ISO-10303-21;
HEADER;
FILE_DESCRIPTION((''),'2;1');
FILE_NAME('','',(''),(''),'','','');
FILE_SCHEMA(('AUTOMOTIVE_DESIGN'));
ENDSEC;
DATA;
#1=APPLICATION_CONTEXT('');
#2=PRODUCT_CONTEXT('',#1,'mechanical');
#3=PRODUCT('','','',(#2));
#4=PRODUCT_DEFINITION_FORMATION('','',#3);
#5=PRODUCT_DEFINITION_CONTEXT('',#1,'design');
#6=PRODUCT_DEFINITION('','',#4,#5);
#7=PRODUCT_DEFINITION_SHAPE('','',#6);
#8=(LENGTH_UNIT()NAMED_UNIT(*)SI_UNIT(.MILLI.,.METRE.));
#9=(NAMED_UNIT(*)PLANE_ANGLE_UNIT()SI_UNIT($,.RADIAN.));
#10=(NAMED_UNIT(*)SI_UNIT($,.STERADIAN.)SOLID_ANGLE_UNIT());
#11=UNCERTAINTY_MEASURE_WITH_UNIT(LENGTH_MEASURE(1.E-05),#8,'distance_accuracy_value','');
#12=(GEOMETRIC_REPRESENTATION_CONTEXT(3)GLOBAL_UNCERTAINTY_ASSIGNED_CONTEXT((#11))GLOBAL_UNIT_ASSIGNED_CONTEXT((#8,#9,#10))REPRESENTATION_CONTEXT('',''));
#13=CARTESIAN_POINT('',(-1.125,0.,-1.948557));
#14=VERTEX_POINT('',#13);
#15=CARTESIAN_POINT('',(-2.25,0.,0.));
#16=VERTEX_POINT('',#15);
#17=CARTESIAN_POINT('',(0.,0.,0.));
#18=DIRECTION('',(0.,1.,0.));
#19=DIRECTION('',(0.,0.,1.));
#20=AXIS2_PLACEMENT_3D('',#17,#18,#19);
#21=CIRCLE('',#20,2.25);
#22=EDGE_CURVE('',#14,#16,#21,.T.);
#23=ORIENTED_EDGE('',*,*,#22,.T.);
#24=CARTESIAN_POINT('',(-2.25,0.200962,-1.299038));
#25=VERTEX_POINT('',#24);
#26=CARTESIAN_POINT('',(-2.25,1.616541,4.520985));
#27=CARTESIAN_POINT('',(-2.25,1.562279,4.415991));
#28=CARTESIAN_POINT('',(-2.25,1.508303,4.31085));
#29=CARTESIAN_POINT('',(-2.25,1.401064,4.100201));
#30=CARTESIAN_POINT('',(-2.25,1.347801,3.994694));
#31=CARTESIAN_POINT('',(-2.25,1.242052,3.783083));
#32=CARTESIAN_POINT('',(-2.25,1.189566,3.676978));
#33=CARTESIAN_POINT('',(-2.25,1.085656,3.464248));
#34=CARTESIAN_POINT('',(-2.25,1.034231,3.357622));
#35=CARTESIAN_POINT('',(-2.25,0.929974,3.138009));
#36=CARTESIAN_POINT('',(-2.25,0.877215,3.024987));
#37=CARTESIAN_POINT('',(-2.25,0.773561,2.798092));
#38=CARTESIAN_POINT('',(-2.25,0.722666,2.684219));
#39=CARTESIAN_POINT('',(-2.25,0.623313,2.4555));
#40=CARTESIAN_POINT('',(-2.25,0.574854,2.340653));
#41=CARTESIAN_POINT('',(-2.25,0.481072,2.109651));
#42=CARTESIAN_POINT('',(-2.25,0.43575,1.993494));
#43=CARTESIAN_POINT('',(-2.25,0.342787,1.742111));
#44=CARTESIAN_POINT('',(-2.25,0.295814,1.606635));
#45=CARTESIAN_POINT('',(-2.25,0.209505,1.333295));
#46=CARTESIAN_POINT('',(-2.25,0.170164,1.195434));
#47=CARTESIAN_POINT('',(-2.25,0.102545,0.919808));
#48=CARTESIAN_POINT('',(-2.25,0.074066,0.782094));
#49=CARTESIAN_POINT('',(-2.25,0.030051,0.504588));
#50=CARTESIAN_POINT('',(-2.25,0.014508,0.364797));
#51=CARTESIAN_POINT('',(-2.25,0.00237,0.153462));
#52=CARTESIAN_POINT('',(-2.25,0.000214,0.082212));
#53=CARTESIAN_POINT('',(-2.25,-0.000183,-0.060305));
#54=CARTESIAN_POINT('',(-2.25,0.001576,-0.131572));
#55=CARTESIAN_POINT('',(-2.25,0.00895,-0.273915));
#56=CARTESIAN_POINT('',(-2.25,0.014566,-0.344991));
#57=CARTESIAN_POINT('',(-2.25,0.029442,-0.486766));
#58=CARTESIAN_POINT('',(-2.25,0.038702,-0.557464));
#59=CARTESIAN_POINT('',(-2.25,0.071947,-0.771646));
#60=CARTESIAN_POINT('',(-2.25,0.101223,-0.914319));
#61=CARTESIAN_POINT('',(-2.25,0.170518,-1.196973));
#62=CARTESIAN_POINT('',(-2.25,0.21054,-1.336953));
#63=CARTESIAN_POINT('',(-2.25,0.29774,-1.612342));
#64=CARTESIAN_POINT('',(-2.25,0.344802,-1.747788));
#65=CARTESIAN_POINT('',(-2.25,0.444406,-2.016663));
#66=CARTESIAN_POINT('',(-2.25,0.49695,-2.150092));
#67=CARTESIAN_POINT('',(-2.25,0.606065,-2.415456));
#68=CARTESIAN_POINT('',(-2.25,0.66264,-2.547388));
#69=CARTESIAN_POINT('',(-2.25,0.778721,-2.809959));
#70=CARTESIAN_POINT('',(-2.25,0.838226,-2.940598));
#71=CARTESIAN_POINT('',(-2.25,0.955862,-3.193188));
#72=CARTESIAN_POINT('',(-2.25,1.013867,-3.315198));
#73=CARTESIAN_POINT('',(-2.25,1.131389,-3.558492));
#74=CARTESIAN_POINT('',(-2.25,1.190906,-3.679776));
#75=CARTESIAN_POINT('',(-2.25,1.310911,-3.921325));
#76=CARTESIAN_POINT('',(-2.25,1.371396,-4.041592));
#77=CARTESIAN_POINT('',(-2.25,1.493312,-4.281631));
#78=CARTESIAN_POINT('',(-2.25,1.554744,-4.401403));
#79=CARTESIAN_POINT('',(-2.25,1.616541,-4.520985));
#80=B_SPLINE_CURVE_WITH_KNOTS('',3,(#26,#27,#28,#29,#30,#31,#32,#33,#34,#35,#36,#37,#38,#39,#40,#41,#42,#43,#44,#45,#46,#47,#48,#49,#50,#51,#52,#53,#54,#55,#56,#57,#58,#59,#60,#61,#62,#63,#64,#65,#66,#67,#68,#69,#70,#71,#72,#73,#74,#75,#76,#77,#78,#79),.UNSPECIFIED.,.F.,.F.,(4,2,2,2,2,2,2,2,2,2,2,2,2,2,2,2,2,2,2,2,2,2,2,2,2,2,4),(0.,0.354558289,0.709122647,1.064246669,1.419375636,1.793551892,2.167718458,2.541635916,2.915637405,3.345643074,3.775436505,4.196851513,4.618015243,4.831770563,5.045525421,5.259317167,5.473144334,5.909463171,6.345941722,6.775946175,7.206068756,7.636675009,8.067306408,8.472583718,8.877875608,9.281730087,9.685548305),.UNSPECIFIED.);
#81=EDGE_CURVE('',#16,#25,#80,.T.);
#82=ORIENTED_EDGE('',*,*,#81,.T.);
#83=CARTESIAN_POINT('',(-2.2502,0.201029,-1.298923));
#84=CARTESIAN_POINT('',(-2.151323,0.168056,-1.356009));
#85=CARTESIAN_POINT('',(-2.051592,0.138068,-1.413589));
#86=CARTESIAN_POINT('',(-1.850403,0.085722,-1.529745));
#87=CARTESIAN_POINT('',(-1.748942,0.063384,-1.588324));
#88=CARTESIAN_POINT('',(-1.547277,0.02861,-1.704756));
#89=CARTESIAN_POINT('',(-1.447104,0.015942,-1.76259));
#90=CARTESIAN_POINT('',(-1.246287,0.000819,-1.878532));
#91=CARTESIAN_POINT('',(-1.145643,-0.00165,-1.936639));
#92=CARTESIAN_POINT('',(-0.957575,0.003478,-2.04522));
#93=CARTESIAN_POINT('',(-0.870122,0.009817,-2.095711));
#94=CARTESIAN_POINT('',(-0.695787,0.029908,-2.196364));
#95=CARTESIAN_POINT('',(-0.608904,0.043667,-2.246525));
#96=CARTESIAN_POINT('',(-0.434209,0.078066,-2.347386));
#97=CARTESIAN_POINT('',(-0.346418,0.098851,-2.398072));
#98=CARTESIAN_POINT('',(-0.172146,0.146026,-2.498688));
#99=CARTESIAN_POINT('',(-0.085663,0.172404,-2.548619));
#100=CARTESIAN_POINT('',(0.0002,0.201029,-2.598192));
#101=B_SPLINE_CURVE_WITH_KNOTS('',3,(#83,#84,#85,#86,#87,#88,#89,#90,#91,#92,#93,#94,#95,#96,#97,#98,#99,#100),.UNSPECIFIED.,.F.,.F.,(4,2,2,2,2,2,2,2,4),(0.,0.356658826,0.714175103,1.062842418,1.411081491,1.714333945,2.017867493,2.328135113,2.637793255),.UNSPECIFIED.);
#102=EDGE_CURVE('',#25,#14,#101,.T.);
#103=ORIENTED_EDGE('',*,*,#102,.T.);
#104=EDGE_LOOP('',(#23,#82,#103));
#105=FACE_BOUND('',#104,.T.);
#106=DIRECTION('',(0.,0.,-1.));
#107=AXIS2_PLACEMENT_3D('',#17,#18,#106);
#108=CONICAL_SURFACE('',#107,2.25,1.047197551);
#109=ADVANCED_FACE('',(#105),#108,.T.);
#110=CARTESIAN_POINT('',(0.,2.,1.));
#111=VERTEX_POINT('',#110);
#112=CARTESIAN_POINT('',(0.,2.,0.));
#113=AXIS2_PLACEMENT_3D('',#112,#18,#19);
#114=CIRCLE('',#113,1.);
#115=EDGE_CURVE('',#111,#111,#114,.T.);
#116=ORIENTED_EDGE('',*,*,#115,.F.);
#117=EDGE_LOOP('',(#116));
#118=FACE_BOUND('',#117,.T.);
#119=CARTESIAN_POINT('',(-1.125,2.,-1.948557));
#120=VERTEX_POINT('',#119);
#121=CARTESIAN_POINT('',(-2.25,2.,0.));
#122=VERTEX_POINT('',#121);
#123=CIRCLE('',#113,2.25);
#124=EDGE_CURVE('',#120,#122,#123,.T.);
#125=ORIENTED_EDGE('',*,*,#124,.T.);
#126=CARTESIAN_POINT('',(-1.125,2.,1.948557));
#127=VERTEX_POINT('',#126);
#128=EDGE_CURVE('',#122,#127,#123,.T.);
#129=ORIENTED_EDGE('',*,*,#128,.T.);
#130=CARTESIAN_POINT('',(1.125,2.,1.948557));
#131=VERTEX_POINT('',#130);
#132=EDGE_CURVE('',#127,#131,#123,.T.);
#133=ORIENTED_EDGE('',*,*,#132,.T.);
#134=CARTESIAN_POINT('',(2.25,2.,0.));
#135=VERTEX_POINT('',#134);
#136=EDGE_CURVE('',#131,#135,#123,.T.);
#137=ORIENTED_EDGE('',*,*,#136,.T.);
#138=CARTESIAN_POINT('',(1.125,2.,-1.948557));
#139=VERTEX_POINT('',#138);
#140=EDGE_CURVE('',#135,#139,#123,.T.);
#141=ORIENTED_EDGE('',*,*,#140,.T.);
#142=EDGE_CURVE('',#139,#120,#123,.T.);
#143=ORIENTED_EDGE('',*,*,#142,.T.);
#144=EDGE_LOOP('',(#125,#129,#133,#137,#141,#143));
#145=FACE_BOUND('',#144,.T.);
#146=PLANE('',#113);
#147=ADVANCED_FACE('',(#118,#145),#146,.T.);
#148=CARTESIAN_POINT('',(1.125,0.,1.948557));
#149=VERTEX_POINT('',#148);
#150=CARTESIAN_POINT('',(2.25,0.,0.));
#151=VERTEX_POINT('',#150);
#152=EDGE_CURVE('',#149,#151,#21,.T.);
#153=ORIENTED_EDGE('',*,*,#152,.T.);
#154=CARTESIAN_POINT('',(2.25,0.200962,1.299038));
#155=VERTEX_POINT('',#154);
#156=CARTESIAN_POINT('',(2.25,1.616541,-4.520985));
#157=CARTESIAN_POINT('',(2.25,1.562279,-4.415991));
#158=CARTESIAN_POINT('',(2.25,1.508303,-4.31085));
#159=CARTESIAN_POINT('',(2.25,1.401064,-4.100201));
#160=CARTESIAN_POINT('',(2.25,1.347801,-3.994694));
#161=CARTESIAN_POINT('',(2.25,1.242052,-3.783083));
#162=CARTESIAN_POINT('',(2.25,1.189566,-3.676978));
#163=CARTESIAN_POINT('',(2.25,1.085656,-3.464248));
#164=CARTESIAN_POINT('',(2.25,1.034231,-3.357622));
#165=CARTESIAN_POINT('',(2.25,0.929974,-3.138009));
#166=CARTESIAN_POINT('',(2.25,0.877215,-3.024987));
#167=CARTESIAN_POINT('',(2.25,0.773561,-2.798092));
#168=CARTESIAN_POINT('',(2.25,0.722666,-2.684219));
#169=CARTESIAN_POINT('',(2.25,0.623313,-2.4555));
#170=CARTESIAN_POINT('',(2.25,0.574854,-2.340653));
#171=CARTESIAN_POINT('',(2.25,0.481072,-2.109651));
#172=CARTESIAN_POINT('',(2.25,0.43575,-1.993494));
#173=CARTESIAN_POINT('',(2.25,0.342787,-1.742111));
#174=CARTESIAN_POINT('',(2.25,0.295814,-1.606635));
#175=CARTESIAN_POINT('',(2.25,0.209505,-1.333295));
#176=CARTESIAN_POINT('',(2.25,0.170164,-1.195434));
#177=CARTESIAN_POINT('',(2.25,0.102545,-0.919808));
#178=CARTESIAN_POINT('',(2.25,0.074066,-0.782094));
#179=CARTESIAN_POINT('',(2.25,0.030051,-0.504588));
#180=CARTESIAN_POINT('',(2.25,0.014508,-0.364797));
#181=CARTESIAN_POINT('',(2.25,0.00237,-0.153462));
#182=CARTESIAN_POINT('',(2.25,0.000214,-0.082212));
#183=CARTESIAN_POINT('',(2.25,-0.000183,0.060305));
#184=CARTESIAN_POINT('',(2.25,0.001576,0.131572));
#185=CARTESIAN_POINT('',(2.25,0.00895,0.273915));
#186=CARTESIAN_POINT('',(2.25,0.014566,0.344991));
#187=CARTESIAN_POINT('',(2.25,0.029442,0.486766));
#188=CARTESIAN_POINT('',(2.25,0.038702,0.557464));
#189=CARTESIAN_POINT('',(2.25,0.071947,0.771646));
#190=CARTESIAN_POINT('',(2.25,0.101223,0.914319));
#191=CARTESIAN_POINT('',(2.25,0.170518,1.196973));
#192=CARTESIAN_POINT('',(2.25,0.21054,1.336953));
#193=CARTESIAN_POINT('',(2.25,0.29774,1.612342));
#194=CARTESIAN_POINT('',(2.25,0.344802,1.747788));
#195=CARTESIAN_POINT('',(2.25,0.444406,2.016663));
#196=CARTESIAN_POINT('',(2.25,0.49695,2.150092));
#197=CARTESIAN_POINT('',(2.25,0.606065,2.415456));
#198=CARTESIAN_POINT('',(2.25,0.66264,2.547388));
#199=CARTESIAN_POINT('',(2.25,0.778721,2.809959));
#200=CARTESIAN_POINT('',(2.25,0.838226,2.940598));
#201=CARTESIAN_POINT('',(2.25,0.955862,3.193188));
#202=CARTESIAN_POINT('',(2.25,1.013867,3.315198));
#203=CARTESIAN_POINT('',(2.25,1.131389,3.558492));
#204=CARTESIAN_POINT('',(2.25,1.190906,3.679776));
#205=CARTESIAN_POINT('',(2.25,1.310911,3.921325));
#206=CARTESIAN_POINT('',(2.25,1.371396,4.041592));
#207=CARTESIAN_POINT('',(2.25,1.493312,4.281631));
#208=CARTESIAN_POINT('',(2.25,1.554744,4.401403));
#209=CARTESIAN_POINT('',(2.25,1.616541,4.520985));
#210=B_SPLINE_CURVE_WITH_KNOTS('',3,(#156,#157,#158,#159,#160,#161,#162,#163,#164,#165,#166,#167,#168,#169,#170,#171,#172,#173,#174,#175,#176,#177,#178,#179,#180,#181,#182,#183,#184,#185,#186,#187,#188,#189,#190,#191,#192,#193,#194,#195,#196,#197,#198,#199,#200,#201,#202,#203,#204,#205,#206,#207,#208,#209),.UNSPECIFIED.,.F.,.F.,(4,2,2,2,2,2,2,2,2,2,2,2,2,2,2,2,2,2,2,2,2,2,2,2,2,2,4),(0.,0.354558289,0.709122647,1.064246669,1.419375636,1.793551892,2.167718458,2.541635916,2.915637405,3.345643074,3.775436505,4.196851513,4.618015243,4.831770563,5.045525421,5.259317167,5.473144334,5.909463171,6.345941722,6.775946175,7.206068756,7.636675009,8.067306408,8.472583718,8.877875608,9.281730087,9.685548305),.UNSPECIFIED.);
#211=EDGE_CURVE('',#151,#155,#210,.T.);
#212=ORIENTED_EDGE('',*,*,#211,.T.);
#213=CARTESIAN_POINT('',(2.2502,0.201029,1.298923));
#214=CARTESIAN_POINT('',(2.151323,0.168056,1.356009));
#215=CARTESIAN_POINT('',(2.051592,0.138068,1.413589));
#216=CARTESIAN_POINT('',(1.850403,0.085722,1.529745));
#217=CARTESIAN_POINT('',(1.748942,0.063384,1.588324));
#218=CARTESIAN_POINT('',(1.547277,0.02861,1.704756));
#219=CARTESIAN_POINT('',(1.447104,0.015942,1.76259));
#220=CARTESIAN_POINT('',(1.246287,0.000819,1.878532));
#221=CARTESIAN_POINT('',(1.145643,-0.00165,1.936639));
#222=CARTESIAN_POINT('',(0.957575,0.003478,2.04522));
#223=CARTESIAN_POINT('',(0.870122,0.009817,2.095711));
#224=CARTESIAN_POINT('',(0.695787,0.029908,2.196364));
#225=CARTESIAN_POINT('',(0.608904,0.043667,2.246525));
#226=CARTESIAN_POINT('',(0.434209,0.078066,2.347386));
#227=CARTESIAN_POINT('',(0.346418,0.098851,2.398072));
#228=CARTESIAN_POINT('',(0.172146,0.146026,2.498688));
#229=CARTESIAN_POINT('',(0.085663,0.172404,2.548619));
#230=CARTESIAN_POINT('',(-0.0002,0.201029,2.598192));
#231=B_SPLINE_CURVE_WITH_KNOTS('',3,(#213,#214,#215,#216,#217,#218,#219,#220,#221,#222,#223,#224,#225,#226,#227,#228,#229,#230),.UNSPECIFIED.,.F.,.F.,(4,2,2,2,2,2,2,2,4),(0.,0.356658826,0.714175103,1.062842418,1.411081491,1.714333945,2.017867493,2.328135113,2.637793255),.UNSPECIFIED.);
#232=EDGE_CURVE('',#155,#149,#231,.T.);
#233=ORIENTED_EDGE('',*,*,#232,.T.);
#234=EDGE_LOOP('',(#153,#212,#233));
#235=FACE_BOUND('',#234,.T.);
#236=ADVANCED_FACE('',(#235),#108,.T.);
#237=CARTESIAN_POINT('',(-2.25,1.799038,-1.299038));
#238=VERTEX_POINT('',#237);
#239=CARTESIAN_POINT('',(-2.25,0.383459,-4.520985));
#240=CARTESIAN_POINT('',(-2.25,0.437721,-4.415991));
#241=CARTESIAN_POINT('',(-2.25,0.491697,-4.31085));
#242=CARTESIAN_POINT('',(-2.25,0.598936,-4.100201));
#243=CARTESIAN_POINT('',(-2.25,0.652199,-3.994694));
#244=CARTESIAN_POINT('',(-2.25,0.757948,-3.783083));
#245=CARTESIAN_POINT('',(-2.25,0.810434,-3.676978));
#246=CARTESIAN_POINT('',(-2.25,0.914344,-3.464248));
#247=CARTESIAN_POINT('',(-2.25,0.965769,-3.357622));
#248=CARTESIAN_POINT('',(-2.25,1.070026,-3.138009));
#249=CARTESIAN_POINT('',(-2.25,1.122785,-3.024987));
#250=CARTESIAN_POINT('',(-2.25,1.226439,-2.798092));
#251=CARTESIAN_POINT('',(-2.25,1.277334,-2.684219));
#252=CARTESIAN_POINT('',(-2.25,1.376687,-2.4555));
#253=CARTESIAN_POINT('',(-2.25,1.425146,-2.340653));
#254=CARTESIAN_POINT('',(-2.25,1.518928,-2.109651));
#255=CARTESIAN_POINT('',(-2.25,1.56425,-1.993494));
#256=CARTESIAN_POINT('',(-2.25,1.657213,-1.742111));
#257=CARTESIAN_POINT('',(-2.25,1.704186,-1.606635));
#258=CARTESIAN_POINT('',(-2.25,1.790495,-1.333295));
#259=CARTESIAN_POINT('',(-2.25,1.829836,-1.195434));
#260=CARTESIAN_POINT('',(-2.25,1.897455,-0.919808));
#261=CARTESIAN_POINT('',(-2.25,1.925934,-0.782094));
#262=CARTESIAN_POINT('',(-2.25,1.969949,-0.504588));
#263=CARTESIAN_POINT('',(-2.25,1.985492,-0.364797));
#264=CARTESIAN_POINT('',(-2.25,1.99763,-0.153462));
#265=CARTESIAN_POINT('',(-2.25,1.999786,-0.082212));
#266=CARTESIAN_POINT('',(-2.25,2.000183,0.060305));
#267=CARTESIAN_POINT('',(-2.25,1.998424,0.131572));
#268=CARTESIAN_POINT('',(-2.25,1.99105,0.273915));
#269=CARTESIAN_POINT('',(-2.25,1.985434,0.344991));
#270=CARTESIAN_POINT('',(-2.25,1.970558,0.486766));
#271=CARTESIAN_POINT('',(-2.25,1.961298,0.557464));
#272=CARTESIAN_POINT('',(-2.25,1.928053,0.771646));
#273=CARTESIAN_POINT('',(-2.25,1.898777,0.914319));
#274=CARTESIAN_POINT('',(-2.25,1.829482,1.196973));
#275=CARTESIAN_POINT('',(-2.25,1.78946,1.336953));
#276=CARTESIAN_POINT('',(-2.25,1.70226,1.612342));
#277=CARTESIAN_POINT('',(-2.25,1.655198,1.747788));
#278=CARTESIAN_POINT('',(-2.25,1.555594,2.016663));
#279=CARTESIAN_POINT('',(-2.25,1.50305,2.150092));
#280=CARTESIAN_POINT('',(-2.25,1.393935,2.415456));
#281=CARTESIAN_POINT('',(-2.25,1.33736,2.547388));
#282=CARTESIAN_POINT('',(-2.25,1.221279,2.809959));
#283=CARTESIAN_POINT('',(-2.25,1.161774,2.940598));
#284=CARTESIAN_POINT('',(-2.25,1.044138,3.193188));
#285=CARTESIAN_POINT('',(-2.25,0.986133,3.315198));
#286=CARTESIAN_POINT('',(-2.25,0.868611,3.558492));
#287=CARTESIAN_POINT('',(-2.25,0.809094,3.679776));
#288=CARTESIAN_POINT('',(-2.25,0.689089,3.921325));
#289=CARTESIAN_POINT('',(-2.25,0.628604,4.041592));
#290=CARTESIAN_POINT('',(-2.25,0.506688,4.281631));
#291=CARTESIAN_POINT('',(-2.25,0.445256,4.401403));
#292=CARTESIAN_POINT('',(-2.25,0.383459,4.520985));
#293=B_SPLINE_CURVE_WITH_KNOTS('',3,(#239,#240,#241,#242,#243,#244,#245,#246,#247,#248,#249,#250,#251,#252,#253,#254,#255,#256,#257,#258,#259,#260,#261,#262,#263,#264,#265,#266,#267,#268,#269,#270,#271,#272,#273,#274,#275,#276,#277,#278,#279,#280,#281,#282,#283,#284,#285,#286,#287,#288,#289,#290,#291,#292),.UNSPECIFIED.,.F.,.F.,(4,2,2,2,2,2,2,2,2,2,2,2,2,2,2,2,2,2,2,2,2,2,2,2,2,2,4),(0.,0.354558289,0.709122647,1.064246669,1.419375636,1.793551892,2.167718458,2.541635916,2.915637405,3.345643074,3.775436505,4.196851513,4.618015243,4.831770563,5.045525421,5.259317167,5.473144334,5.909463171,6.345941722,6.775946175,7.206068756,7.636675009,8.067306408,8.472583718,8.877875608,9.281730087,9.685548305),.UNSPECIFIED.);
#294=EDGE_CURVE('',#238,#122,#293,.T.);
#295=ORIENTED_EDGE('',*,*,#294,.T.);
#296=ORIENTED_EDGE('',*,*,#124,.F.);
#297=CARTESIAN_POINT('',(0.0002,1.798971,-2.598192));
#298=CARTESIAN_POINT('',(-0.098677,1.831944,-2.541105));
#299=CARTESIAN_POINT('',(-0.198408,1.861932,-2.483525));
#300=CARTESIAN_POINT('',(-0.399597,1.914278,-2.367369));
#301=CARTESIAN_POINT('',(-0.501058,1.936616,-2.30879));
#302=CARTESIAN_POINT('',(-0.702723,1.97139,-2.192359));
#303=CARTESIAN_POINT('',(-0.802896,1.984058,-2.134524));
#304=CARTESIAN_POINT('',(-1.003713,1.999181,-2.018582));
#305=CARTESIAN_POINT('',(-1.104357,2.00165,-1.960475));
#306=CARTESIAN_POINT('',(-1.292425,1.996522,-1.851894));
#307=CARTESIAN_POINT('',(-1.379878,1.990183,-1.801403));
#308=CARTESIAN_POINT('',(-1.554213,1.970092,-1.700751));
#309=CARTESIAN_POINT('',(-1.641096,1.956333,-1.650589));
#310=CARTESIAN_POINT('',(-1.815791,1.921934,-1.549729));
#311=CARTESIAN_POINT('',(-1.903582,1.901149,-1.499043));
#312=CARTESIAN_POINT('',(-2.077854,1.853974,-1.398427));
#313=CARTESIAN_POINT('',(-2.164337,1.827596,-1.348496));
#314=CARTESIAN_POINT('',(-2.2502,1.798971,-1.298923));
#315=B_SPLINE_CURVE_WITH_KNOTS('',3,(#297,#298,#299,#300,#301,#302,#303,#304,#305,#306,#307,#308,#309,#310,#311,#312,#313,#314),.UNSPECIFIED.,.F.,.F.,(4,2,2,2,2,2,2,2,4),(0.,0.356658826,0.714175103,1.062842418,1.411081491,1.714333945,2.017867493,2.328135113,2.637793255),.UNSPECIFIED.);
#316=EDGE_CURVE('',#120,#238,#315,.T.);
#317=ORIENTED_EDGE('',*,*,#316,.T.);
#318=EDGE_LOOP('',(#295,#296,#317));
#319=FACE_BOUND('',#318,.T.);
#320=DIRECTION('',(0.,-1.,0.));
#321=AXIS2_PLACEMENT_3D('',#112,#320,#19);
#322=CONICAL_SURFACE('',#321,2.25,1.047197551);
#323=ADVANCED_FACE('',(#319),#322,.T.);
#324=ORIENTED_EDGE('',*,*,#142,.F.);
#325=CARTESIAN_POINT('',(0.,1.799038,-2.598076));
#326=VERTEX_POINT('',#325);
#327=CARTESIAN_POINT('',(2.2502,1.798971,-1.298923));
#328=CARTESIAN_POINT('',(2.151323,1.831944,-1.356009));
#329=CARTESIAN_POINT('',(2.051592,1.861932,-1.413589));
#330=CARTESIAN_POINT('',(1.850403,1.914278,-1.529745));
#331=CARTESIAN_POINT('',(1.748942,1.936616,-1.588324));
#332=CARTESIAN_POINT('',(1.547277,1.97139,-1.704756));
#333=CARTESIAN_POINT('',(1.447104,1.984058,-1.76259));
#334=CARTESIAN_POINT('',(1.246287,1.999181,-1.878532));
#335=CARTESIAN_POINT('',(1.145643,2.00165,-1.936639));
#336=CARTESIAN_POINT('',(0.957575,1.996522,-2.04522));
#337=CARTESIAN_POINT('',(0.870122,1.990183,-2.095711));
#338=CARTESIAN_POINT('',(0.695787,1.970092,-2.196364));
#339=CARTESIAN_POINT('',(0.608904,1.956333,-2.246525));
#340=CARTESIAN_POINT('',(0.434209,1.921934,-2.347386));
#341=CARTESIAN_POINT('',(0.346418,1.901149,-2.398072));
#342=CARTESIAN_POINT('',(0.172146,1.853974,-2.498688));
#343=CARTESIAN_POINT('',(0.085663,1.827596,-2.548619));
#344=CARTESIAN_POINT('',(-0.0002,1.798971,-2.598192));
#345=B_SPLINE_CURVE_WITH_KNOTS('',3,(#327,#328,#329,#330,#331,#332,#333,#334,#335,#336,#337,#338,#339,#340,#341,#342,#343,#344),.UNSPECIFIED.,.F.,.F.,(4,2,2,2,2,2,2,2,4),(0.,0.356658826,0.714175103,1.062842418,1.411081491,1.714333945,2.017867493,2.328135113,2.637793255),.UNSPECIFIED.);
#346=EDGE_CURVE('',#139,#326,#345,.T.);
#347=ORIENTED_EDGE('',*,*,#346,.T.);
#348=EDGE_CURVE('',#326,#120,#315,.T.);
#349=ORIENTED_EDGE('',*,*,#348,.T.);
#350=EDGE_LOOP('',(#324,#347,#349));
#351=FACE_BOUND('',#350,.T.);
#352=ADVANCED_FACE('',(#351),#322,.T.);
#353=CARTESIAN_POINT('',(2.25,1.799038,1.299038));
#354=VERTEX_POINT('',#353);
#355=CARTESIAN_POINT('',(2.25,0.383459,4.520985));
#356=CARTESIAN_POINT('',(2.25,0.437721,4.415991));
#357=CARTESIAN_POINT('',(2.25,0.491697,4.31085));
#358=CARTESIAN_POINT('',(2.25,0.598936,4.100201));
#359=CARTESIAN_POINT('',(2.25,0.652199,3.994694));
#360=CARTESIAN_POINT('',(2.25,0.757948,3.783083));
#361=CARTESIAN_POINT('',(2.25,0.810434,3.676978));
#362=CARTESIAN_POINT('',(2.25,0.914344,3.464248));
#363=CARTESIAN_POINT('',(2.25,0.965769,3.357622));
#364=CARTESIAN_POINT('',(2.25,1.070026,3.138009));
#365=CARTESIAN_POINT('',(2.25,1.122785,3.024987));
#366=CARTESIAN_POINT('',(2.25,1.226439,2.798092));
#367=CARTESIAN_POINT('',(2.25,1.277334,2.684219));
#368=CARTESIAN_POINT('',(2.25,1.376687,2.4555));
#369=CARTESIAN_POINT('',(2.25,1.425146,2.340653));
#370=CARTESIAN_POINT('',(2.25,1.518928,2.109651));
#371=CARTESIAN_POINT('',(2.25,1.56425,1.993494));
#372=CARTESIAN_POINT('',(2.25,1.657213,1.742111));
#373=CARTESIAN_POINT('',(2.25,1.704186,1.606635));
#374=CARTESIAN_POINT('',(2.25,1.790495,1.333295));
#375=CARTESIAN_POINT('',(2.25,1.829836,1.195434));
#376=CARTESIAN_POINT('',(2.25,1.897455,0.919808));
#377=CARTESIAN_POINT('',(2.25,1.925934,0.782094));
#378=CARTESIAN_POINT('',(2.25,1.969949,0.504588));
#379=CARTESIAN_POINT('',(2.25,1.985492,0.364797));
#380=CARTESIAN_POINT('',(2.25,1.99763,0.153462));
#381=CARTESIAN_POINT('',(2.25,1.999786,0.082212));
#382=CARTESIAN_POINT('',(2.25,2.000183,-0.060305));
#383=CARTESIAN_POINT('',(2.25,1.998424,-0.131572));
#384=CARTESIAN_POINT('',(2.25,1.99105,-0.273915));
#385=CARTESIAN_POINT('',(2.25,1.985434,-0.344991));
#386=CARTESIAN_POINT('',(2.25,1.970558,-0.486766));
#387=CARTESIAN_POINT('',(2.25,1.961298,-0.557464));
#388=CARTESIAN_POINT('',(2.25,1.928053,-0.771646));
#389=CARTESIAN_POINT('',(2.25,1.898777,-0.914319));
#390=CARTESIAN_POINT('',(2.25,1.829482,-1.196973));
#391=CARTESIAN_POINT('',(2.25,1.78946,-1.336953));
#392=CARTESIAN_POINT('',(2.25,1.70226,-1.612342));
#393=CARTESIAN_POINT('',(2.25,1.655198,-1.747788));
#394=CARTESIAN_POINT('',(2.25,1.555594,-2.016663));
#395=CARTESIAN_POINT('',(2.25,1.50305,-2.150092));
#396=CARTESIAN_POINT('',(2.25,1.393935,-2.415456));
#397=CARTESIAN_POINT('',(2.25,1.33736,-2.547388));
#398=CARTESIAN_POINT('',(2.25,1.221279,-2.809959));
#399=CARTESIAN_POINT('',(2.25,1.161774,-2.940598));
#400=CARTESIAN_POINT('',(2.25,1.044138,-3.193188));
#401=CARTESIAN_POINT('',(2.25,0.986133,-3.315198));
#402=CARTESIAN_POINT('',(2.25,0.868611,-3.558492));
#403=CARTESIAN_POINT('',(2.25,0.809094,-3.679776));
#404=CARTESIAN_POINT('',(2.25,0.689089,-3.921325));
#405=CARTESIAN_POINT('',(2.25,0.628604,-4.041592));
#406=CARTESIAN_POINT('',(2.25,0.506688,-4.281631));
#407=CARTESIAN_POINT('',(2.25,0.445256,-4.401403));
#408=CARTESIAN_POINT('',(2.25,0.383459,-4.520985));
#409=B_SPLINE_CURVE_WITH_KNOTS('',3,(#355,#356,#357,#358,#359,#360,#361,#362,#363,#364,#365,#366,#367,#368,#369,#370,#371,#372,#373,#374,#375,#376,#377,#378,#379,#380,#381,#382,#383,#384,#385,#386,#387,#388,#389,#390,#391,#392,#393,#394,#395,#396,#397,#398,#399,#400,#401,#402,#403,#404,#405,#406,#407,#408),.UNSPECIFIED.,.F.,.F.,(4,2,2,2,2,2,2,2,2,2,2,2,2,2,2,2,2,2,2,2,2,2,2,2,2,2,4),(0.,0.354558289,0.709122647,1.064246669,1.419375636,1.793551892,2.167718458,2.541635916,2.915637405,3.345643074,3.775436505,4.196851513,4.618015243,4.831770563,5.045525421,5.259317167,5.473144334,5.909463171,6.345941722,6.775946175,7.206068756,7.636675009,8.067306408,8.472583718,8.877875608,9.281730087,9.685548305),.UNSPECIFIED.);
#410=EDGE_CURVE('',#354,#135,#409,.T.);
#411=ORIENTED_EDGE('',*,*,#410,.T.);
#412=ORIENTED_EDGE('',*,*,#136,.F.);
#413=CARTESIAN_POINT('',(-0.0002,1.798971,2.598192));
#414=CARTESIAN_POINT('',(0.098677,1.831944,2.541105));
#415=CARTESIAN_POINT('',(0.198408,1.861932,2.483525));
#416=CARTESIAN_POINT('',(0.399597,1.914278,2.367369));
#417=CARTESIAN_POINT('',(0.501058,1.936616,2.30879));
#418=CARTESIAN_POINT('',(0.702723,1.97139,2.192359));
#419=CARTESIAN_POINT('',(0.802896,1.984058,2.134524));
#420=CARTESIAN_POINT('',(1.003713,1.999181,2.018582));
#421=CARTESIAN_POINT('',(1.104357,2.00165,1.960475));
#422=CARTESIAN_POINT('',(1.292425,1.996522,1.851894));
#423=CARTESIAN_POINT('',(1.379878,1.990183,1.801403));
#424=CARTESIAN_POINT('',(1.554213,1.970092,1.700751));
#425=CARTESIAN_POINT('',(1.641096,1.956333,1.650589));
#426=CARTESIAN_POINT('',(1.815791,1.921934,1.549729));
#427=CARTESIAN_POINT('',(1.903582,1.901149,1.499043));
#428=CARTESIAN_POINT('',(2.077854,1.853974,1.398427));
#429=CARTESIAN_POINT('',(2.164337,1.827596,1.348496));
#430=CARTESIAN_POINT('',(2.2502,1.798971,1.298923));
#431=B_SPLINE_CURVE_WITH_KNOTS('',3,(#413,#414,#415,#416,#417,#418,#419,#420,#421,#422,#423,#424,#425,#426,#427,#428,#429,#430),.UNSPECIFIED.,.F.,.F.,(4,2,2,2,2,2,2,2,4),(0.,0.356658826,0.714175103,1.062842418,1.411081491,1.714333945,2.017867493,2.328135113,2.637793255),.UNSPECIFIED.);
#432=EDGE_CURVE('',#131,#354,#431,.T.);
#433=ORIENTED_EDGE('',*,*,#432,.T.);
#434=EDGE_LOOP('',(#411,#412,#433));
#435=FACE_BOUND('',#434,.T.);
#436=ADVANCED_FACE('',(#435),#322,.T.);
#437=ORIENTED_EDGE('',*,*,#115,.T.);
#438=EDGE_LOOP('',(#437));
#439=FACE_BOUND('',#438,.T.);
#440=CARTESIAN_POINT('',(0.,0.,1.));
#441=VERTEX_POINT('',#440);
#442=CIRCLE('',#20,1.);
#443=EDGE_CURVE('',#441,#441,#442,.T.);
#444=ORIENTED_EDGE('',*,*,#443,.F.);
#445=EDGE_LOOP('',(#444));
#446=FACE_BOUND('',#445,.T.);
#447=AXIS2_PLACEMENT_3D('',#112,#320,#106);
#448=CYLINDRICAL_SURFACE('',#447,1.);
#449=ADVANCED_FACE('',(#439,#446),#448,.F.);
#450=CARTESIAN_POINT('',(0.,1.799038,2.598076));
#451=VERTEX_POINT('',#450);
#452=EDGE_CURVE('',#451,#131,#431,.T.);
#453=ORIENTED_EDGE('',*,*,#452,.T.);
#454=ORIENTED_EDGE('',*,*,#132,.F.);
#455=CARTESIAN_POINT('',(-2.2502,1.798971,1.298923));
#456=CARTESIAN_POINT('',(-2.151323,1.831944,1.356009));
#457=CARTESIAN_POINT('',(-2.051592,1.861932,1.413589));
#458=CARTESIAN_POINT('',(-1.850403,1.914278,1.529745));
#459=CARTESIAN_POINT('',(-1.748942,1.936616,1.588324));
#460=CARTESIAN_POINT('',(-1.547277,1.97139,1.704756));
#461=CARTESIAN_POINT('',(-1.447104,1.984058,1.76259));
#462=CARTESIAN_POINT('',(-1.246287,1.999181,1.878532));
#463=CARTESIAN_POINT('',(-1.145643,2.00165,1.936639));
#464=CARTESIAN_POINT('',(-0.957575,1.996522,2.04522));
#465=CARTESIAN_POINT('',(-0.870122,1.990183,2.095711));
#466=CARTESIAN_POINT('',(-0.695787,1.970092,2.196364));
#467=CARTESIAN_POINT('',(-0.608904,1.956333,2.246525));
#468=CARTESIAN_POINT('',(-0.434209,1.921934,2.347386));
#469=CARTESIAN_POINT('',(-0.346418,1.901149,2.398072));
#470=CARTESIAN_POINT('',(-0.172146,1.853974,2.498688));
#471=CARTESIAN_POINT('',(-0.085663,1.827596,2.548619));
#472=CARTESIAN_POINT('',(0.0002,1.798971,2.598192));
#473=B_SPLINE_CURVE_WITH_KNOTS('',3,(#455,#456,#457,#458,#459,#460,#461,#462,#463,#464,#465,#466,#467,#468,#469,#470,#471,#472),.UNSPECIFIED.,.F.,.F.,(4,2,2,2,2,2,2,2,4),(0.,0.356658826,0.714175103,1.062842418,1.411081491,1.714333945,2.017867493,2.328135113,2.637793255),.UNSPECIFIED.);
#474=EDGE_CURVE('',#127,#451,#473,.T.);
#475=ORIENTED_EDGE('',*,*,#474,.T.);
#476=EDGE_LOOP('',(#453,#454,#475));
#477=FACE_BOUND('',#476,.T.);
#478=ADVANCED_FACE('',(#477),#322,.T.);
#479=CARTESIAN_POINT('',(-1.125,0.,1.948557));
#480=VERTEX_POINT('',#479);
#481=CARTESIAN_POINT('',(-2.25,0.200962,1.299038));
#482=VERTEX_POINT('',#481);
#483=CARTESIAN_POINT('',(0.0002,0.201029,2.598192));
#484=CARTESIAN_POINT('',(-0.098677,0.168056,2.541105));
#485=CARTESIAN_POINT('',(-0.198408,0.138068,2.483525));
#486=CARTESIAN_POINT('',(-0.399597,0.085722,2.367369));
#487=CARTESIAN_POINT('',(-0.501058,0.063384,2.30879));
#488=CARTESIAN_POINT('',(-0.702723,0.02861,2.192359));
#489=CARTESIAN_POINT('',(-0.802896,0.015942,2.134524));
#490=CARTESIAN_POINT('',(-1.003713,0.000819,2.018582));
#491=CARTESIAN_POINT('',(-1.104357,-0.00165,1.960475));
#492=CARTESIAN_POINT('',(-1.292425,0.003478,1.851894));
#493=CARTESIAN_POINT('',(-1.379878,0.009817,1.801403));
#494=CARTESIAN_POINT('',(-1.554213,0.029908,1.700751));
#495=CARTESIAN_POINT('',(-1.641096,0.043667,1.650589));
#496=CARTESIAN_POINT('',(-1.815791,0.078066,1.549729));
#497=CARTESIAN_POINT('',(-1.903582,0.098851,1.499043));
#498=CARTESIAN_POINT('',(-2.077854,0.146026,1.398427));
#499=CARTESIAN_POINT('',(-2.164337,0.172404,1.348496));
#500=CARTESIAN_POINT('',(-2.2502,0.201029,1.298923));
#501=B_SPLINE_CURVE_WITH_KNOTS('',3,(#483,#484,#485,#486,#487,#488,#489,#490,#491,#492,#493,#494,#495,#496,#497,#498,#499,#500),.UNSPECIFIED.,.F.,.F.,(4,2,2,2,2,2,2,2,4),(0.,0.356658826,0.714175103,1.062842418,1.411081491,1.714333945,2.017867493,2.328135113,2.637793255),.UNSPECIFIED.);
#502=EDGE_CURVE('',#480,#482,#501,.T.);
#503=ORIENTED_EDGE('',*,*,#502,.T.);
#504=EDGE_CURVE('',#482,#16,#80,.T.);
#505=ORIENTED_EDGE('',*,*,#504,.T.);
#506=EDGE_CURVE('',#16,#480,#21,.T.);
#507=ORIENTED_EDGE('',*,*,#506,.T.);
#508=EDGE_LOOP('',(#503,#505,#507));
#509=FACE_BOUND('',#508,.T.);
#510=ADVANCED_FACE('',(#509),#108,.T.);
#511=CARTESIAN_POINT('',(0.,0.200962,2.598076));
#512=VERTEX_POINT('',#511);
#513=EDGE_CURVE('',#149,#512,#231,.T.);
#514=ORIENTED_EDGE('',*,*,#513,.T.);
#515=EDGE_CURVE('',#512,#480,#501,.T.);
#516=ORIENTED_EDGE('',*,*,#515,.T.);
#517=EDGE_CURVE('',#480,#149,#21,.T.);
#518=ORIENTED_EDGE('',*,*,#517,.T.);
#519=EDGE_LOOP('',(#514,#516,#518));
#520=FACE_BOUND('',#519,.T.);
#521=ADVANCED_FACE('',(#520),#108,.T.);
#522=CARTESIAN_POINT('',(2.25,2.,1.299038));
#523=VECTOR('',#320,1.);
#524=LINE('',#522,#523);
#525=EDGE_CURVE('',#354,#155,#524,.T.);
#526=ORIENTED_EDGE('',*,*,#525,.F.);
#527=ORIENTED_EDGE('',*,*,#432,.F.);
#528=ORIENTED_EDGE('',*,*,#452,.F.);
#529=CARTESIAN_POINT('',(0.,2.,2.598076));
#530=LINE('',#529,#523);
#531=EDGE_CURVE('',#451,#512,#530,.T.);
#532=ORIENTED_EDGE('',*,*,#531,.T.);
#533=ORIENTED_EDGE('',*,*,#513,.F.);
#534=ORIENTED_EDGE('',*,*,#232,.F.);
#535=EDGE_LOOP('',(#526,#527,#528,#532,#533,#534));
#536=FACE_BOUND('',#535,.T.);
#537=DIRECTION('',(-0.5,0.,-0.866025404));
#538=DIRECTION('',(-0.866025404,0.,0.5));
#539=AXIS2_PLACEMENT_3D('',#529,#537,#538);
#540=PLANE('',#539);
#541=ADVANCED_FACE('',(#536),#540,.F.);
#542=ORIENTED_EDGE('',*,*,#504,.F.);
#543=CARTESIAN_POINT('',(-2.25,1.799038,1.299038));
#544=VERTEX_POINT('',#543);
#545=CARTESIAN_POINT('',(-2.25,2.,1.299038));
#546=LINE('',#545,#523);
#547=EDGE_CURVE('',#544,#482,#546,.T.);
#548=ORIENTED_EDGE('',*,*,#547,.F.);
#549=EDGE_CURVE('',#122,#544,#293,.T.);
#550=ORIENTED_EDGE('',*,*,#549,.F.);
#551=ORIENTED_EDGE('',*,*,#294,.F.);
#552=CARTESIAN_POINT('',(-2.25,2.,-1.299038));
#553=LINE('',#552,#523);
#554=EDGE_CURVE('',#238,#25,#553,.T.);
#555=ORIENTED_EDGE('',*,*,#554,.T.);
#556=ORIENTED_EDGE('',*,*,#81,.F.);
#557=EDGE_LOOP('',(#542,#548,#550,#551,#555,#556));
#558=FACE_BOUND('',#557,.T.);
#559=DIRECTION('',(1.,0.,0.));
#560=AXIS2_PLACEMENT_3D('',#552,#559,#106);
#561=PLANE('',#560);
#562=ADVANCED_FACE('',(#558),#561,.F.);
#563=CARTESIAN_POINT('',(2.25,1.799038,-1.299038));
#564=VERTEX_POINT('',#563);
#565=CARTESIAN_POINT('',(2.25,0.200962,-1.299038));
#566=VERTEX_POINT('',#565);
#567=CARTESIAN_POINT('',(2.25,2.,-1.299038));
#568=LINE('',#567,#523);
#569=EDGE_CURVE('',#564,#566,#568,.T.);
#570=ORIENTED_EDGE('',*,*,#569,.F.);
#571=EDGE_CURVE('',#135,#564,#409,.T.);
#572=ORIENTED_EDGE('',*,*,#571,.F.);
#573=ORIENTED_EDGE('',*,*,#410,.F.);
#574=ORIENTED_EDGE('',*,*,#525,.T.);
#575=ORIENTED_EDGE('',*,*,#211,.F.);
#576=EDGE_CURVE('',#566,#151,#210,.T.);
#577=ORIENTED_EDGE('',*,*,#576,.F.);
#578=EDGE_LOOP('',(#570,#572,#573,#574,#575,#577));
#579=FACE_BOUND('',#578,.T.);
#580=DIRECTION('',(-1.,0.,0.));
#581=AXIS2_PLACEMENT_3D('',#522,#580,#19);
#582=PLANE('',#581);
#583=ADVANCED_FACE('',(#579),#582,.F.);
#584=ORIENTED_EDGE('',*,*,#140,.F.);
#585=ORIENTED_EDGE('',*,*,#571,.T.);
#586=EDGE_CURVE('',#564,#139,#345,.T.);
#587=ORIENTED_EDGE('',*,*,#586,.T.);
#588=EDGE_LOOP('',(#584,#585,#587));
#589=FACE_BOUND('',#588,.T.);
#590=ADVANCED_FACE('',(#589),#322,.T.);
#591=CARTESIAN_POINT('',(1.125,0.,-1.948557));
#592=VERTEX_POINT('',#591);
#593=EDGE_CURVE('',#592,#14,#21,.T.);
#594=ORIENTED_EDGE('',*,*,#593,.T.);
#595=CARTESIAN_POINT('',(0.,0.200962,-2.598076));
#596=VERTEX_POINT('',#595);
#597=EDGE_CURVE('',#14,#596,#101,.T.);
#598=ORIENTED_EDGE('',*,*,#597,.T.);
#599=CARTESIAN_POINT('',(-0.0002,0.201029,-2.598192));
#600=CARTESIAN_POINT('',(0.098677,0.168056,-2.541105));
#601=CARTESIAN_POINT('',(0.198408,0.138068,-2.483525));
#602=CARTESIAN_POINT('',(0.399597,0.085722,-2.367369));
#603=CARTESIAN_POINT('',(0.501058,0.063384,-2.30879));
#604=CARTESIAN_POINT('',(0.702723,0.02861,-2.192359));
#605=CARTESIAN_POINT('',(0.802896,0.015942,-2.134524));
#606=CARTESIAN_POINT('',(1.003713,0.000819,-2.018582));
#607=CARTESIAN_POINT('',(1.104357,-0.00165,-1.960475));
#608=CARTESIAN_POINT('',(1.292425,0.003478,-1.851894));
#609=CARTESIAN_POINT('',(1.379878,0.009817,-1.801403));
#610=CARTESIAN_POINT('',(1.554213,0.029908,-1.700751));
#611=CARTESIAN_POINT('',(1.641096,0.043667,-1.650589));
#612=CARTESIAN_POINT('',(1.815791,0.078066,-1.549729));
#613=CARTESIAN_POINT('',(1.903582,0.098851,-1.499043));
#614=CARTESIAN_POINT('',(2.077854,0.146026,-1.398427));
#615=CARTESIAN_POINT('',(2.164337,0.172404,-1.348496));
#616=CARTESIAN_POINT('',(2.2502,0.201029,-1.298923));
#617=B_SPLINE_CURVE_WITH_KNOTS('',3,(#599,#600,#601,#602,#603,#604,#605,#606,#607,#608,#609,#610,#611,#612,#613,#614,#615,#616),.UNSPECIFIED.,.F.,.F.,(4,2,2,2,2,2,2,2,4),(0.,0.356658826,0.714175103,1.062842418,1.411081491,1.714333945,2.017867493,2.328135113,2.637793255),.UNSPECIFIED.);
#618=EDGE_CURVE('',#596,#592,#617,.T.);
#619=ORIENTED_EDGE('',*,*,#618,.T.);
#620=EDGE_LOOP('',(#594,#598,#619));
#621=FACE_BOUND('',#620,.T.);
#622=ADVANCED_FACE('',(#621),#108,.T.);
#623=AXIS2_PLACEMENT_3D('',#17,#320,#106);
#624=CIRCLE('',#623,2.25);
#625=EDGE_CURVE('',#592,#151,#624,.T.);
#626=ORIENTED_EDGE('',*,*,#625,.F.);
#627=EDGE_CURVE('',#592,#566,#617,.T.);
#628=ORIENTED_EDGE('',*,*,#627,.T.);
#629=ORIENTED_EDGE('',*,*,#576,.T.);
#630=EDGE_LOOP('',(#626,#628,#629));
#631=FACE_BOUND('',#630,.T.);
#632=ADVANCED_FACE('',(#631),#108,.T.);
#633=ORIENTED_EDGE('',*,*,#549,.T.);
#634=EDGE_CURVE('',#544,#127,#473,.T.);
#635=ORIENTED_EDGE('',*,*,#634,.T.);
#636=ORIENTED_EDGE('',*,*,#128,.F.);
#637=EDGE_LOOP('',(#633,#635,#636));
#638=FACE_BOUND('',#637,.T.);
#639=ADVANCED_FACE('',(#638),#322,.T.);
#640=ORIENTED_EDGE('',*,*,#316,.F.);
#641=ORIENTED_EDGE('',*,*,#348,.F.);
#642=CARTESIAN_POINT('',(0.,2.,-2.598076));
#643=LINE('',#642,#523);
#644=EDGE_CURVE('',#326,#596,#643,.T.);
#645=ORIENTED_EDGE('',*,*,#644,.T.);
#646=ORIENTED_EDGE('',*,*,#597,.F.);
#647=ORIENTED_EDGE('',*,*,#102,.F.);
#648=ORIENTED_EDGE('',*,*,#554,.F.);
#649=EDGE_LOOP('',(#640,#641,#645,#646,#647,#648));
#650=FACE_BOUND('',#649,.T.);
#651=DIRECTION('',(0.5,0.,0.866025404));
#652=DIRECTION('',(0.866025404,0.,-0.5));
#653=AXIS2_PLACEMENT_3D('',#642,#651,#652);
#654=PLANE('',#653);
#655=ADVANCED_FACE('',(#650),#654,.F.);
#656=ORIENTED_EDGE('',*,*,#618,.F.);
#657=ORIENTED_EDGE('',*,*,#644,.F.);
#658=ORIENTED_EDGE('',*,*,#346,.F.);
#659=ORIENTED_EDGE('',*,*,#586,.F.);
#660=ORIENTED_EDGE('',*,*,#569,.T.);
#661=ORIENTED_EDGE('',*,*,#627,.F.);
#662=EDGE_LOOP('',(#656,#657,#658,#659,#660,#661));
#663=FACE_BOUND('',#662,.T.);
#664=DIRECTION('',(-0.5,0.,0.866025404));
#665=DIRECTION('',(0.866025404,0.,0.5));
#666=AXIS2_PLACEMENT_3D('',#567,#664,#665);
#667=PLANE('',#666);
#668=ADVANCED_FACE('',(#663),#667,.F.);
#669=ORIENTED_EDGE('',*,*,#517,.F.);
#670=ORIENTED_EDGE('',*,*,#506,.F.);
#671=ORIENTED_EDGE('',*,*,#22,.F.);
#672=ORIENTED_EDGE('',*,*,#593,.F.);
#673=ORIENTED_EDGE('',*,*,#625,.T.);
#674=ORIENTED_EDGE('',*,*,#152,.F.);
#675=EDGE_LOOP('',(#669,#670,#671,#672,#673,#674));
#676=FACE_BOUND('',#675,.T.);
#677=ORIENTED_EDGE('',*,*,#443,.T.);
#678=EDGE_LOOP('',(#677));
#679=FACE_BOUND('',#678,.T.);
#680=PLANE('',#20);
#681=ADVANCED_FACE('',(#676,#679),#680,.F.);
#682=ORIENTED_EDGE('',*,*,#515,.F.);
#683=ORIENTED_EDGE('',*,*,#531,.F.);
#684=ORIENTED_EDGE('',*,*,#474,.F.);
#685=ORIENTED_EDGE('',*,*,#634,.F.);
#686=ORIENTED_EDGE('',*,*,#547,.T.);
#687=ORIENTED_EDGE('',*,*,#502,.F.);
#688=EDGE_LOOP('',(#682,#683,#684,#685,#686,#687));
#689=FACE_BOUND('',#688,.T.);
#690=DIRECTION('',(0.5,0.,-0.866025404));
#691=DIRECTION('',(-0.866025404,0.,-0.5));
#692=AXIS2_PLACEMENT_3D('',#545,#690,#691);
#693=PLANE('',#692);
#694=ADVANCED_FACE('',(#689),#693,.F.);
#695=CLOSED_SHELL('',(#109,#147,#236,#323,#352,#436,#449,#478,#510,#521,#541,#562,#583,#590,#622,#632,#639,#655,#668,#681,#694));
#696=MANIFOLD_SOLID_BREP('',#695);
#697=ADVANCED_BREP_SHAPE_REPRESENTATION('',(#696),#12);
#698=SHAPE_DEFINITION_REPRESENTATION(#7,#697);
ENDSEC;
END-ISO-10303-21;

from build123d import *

# Parameters (mm, degrees)
SKETCH1_R           = 1
BOSS_EXTRUDE1_DEPTH = 2
SKETCH2_OUTSIDE_W   = 14.86
SKETCH2_OUTSIDE_H   = 15.556
SKETCH2_OUTSIDE_R   = 2.25
CUT_EXTRUDE1_DEPTH  = 2
CUT_EXTRUDE1_DRAFT  = -60
SKETCH3_OUTSIDE_W   = 14.86
SKETCH3_OUTSIDE_H   = 15.556
SKETCH3_OUTSIDE_R   = 2.25
CUT_EXTRUDE2_DEPTH  = 2
CUT_EXTRUDE2_DRAFT  = -60


with BuildPart() as part:
    # Sketch1 → Boss-Extrude1 (new body)
    with BuildSketch(Plane(origin=(0, 0, 0), x_dir=(1, 0, 0), z_dir=(0, 1, 0))):
        Polygon((0, -2.598076211), (2.25, -1.299038106), (2.25, 1.299038106), (0, 2.598076211), (-2.25, 1.299038106), (-2.25, -1.299038106), align=None)
        with Locations(Location((0, 0, 0), (0, 0, 270))):
            Circle(SKETCH1_R, mode=Mode.SUBTRACT)
    extrude(amount=BOSS_EXTRUDE1_DEPTH)


with BuildPart() as cut_extrude1_tool:
    # Sketch2 outside → Cut-Extrude1 (with draft: the straight prism first)
    with BuildSketch(Plane(origin=(0, 2, 0), x_dir=(1, 0, 0), z_dir=(0, 1, 0))):
        Rectangle(SKETCH2_OUTSIDE_W, SKETCH2_OUTSIDE_H)
        Circle(SKETCH2_OUTSIDE_R, mode=Mode.SUBTRACT)
    extrude(amount=-CUT_EXTRUDE1_DEPTH)
    # Cut-Extrude1: the draft: its side faces are tilted about the plane it starts from
    cut_extrude1_sides = [cut_extrude1_tool.faces().sort_by_distance(p)[0] for p in [
        (0, 1, 7.778),
        (7.43, 1, 0),
        (0, 1, -7.778),
        (-7.43, 1, 0),
        (-2.25, 1, 0),
    ]]
    draft(cut_extrude1_sides, Plane(origin=(0, 2, 0), x_dir=(1, 0, 0), z_dir=(0, 1, 0)), CUT_EXTRUDE1_DRAFT)


with BuildPart() as part_1:
    add(part.part)

    # Cut-Extrude1: cut by cut_extrude1_tool
    add(cut_extrude1_tool.part, mode=Mode.SUBTRACT)


with BuildPart() as cut_extrude2_tool:
    # Sketch3 outside → Cut-Extrude2 (with draft: the straight prism first)
    with BuildSketch(Plane.XZ):
        Rectangle(SKETCH3_OUTSIDE_W, SKETCH3_OUTSIDE_H)
        Circle(SKETCH3_OUTSIDE_R, mode=Mode.SUBTRACT)
    extrude(amount=-CUT_EXTRUDE2_DEPTH)
    # Cut-Extrude2: the draft: its side faces are tilted about the plane it starts from
    cut_extrude2_sides = [cut_extrude2_tool.faces().sort_by_distance(p)[0] for p in [
        (0, 1, -7.778),
        (7.43, 1, 0),
        (0, 1, 7.778),
        (-7.43, 1, 0),
        (-2.25, 1, 0),
    ]]
    draft(cut_extrude2_sides, Plane.XZ, CUT_EXTRUDE2_DRAFT)


with BuildPart() as part_2:
    add(part_1.part)

    # Cut-Extrude2: cut by cut_extrude2_tool
    add(cut_extrude2_tool.part, mode=Mode.SUBTRACT)


solid = part_2.part
